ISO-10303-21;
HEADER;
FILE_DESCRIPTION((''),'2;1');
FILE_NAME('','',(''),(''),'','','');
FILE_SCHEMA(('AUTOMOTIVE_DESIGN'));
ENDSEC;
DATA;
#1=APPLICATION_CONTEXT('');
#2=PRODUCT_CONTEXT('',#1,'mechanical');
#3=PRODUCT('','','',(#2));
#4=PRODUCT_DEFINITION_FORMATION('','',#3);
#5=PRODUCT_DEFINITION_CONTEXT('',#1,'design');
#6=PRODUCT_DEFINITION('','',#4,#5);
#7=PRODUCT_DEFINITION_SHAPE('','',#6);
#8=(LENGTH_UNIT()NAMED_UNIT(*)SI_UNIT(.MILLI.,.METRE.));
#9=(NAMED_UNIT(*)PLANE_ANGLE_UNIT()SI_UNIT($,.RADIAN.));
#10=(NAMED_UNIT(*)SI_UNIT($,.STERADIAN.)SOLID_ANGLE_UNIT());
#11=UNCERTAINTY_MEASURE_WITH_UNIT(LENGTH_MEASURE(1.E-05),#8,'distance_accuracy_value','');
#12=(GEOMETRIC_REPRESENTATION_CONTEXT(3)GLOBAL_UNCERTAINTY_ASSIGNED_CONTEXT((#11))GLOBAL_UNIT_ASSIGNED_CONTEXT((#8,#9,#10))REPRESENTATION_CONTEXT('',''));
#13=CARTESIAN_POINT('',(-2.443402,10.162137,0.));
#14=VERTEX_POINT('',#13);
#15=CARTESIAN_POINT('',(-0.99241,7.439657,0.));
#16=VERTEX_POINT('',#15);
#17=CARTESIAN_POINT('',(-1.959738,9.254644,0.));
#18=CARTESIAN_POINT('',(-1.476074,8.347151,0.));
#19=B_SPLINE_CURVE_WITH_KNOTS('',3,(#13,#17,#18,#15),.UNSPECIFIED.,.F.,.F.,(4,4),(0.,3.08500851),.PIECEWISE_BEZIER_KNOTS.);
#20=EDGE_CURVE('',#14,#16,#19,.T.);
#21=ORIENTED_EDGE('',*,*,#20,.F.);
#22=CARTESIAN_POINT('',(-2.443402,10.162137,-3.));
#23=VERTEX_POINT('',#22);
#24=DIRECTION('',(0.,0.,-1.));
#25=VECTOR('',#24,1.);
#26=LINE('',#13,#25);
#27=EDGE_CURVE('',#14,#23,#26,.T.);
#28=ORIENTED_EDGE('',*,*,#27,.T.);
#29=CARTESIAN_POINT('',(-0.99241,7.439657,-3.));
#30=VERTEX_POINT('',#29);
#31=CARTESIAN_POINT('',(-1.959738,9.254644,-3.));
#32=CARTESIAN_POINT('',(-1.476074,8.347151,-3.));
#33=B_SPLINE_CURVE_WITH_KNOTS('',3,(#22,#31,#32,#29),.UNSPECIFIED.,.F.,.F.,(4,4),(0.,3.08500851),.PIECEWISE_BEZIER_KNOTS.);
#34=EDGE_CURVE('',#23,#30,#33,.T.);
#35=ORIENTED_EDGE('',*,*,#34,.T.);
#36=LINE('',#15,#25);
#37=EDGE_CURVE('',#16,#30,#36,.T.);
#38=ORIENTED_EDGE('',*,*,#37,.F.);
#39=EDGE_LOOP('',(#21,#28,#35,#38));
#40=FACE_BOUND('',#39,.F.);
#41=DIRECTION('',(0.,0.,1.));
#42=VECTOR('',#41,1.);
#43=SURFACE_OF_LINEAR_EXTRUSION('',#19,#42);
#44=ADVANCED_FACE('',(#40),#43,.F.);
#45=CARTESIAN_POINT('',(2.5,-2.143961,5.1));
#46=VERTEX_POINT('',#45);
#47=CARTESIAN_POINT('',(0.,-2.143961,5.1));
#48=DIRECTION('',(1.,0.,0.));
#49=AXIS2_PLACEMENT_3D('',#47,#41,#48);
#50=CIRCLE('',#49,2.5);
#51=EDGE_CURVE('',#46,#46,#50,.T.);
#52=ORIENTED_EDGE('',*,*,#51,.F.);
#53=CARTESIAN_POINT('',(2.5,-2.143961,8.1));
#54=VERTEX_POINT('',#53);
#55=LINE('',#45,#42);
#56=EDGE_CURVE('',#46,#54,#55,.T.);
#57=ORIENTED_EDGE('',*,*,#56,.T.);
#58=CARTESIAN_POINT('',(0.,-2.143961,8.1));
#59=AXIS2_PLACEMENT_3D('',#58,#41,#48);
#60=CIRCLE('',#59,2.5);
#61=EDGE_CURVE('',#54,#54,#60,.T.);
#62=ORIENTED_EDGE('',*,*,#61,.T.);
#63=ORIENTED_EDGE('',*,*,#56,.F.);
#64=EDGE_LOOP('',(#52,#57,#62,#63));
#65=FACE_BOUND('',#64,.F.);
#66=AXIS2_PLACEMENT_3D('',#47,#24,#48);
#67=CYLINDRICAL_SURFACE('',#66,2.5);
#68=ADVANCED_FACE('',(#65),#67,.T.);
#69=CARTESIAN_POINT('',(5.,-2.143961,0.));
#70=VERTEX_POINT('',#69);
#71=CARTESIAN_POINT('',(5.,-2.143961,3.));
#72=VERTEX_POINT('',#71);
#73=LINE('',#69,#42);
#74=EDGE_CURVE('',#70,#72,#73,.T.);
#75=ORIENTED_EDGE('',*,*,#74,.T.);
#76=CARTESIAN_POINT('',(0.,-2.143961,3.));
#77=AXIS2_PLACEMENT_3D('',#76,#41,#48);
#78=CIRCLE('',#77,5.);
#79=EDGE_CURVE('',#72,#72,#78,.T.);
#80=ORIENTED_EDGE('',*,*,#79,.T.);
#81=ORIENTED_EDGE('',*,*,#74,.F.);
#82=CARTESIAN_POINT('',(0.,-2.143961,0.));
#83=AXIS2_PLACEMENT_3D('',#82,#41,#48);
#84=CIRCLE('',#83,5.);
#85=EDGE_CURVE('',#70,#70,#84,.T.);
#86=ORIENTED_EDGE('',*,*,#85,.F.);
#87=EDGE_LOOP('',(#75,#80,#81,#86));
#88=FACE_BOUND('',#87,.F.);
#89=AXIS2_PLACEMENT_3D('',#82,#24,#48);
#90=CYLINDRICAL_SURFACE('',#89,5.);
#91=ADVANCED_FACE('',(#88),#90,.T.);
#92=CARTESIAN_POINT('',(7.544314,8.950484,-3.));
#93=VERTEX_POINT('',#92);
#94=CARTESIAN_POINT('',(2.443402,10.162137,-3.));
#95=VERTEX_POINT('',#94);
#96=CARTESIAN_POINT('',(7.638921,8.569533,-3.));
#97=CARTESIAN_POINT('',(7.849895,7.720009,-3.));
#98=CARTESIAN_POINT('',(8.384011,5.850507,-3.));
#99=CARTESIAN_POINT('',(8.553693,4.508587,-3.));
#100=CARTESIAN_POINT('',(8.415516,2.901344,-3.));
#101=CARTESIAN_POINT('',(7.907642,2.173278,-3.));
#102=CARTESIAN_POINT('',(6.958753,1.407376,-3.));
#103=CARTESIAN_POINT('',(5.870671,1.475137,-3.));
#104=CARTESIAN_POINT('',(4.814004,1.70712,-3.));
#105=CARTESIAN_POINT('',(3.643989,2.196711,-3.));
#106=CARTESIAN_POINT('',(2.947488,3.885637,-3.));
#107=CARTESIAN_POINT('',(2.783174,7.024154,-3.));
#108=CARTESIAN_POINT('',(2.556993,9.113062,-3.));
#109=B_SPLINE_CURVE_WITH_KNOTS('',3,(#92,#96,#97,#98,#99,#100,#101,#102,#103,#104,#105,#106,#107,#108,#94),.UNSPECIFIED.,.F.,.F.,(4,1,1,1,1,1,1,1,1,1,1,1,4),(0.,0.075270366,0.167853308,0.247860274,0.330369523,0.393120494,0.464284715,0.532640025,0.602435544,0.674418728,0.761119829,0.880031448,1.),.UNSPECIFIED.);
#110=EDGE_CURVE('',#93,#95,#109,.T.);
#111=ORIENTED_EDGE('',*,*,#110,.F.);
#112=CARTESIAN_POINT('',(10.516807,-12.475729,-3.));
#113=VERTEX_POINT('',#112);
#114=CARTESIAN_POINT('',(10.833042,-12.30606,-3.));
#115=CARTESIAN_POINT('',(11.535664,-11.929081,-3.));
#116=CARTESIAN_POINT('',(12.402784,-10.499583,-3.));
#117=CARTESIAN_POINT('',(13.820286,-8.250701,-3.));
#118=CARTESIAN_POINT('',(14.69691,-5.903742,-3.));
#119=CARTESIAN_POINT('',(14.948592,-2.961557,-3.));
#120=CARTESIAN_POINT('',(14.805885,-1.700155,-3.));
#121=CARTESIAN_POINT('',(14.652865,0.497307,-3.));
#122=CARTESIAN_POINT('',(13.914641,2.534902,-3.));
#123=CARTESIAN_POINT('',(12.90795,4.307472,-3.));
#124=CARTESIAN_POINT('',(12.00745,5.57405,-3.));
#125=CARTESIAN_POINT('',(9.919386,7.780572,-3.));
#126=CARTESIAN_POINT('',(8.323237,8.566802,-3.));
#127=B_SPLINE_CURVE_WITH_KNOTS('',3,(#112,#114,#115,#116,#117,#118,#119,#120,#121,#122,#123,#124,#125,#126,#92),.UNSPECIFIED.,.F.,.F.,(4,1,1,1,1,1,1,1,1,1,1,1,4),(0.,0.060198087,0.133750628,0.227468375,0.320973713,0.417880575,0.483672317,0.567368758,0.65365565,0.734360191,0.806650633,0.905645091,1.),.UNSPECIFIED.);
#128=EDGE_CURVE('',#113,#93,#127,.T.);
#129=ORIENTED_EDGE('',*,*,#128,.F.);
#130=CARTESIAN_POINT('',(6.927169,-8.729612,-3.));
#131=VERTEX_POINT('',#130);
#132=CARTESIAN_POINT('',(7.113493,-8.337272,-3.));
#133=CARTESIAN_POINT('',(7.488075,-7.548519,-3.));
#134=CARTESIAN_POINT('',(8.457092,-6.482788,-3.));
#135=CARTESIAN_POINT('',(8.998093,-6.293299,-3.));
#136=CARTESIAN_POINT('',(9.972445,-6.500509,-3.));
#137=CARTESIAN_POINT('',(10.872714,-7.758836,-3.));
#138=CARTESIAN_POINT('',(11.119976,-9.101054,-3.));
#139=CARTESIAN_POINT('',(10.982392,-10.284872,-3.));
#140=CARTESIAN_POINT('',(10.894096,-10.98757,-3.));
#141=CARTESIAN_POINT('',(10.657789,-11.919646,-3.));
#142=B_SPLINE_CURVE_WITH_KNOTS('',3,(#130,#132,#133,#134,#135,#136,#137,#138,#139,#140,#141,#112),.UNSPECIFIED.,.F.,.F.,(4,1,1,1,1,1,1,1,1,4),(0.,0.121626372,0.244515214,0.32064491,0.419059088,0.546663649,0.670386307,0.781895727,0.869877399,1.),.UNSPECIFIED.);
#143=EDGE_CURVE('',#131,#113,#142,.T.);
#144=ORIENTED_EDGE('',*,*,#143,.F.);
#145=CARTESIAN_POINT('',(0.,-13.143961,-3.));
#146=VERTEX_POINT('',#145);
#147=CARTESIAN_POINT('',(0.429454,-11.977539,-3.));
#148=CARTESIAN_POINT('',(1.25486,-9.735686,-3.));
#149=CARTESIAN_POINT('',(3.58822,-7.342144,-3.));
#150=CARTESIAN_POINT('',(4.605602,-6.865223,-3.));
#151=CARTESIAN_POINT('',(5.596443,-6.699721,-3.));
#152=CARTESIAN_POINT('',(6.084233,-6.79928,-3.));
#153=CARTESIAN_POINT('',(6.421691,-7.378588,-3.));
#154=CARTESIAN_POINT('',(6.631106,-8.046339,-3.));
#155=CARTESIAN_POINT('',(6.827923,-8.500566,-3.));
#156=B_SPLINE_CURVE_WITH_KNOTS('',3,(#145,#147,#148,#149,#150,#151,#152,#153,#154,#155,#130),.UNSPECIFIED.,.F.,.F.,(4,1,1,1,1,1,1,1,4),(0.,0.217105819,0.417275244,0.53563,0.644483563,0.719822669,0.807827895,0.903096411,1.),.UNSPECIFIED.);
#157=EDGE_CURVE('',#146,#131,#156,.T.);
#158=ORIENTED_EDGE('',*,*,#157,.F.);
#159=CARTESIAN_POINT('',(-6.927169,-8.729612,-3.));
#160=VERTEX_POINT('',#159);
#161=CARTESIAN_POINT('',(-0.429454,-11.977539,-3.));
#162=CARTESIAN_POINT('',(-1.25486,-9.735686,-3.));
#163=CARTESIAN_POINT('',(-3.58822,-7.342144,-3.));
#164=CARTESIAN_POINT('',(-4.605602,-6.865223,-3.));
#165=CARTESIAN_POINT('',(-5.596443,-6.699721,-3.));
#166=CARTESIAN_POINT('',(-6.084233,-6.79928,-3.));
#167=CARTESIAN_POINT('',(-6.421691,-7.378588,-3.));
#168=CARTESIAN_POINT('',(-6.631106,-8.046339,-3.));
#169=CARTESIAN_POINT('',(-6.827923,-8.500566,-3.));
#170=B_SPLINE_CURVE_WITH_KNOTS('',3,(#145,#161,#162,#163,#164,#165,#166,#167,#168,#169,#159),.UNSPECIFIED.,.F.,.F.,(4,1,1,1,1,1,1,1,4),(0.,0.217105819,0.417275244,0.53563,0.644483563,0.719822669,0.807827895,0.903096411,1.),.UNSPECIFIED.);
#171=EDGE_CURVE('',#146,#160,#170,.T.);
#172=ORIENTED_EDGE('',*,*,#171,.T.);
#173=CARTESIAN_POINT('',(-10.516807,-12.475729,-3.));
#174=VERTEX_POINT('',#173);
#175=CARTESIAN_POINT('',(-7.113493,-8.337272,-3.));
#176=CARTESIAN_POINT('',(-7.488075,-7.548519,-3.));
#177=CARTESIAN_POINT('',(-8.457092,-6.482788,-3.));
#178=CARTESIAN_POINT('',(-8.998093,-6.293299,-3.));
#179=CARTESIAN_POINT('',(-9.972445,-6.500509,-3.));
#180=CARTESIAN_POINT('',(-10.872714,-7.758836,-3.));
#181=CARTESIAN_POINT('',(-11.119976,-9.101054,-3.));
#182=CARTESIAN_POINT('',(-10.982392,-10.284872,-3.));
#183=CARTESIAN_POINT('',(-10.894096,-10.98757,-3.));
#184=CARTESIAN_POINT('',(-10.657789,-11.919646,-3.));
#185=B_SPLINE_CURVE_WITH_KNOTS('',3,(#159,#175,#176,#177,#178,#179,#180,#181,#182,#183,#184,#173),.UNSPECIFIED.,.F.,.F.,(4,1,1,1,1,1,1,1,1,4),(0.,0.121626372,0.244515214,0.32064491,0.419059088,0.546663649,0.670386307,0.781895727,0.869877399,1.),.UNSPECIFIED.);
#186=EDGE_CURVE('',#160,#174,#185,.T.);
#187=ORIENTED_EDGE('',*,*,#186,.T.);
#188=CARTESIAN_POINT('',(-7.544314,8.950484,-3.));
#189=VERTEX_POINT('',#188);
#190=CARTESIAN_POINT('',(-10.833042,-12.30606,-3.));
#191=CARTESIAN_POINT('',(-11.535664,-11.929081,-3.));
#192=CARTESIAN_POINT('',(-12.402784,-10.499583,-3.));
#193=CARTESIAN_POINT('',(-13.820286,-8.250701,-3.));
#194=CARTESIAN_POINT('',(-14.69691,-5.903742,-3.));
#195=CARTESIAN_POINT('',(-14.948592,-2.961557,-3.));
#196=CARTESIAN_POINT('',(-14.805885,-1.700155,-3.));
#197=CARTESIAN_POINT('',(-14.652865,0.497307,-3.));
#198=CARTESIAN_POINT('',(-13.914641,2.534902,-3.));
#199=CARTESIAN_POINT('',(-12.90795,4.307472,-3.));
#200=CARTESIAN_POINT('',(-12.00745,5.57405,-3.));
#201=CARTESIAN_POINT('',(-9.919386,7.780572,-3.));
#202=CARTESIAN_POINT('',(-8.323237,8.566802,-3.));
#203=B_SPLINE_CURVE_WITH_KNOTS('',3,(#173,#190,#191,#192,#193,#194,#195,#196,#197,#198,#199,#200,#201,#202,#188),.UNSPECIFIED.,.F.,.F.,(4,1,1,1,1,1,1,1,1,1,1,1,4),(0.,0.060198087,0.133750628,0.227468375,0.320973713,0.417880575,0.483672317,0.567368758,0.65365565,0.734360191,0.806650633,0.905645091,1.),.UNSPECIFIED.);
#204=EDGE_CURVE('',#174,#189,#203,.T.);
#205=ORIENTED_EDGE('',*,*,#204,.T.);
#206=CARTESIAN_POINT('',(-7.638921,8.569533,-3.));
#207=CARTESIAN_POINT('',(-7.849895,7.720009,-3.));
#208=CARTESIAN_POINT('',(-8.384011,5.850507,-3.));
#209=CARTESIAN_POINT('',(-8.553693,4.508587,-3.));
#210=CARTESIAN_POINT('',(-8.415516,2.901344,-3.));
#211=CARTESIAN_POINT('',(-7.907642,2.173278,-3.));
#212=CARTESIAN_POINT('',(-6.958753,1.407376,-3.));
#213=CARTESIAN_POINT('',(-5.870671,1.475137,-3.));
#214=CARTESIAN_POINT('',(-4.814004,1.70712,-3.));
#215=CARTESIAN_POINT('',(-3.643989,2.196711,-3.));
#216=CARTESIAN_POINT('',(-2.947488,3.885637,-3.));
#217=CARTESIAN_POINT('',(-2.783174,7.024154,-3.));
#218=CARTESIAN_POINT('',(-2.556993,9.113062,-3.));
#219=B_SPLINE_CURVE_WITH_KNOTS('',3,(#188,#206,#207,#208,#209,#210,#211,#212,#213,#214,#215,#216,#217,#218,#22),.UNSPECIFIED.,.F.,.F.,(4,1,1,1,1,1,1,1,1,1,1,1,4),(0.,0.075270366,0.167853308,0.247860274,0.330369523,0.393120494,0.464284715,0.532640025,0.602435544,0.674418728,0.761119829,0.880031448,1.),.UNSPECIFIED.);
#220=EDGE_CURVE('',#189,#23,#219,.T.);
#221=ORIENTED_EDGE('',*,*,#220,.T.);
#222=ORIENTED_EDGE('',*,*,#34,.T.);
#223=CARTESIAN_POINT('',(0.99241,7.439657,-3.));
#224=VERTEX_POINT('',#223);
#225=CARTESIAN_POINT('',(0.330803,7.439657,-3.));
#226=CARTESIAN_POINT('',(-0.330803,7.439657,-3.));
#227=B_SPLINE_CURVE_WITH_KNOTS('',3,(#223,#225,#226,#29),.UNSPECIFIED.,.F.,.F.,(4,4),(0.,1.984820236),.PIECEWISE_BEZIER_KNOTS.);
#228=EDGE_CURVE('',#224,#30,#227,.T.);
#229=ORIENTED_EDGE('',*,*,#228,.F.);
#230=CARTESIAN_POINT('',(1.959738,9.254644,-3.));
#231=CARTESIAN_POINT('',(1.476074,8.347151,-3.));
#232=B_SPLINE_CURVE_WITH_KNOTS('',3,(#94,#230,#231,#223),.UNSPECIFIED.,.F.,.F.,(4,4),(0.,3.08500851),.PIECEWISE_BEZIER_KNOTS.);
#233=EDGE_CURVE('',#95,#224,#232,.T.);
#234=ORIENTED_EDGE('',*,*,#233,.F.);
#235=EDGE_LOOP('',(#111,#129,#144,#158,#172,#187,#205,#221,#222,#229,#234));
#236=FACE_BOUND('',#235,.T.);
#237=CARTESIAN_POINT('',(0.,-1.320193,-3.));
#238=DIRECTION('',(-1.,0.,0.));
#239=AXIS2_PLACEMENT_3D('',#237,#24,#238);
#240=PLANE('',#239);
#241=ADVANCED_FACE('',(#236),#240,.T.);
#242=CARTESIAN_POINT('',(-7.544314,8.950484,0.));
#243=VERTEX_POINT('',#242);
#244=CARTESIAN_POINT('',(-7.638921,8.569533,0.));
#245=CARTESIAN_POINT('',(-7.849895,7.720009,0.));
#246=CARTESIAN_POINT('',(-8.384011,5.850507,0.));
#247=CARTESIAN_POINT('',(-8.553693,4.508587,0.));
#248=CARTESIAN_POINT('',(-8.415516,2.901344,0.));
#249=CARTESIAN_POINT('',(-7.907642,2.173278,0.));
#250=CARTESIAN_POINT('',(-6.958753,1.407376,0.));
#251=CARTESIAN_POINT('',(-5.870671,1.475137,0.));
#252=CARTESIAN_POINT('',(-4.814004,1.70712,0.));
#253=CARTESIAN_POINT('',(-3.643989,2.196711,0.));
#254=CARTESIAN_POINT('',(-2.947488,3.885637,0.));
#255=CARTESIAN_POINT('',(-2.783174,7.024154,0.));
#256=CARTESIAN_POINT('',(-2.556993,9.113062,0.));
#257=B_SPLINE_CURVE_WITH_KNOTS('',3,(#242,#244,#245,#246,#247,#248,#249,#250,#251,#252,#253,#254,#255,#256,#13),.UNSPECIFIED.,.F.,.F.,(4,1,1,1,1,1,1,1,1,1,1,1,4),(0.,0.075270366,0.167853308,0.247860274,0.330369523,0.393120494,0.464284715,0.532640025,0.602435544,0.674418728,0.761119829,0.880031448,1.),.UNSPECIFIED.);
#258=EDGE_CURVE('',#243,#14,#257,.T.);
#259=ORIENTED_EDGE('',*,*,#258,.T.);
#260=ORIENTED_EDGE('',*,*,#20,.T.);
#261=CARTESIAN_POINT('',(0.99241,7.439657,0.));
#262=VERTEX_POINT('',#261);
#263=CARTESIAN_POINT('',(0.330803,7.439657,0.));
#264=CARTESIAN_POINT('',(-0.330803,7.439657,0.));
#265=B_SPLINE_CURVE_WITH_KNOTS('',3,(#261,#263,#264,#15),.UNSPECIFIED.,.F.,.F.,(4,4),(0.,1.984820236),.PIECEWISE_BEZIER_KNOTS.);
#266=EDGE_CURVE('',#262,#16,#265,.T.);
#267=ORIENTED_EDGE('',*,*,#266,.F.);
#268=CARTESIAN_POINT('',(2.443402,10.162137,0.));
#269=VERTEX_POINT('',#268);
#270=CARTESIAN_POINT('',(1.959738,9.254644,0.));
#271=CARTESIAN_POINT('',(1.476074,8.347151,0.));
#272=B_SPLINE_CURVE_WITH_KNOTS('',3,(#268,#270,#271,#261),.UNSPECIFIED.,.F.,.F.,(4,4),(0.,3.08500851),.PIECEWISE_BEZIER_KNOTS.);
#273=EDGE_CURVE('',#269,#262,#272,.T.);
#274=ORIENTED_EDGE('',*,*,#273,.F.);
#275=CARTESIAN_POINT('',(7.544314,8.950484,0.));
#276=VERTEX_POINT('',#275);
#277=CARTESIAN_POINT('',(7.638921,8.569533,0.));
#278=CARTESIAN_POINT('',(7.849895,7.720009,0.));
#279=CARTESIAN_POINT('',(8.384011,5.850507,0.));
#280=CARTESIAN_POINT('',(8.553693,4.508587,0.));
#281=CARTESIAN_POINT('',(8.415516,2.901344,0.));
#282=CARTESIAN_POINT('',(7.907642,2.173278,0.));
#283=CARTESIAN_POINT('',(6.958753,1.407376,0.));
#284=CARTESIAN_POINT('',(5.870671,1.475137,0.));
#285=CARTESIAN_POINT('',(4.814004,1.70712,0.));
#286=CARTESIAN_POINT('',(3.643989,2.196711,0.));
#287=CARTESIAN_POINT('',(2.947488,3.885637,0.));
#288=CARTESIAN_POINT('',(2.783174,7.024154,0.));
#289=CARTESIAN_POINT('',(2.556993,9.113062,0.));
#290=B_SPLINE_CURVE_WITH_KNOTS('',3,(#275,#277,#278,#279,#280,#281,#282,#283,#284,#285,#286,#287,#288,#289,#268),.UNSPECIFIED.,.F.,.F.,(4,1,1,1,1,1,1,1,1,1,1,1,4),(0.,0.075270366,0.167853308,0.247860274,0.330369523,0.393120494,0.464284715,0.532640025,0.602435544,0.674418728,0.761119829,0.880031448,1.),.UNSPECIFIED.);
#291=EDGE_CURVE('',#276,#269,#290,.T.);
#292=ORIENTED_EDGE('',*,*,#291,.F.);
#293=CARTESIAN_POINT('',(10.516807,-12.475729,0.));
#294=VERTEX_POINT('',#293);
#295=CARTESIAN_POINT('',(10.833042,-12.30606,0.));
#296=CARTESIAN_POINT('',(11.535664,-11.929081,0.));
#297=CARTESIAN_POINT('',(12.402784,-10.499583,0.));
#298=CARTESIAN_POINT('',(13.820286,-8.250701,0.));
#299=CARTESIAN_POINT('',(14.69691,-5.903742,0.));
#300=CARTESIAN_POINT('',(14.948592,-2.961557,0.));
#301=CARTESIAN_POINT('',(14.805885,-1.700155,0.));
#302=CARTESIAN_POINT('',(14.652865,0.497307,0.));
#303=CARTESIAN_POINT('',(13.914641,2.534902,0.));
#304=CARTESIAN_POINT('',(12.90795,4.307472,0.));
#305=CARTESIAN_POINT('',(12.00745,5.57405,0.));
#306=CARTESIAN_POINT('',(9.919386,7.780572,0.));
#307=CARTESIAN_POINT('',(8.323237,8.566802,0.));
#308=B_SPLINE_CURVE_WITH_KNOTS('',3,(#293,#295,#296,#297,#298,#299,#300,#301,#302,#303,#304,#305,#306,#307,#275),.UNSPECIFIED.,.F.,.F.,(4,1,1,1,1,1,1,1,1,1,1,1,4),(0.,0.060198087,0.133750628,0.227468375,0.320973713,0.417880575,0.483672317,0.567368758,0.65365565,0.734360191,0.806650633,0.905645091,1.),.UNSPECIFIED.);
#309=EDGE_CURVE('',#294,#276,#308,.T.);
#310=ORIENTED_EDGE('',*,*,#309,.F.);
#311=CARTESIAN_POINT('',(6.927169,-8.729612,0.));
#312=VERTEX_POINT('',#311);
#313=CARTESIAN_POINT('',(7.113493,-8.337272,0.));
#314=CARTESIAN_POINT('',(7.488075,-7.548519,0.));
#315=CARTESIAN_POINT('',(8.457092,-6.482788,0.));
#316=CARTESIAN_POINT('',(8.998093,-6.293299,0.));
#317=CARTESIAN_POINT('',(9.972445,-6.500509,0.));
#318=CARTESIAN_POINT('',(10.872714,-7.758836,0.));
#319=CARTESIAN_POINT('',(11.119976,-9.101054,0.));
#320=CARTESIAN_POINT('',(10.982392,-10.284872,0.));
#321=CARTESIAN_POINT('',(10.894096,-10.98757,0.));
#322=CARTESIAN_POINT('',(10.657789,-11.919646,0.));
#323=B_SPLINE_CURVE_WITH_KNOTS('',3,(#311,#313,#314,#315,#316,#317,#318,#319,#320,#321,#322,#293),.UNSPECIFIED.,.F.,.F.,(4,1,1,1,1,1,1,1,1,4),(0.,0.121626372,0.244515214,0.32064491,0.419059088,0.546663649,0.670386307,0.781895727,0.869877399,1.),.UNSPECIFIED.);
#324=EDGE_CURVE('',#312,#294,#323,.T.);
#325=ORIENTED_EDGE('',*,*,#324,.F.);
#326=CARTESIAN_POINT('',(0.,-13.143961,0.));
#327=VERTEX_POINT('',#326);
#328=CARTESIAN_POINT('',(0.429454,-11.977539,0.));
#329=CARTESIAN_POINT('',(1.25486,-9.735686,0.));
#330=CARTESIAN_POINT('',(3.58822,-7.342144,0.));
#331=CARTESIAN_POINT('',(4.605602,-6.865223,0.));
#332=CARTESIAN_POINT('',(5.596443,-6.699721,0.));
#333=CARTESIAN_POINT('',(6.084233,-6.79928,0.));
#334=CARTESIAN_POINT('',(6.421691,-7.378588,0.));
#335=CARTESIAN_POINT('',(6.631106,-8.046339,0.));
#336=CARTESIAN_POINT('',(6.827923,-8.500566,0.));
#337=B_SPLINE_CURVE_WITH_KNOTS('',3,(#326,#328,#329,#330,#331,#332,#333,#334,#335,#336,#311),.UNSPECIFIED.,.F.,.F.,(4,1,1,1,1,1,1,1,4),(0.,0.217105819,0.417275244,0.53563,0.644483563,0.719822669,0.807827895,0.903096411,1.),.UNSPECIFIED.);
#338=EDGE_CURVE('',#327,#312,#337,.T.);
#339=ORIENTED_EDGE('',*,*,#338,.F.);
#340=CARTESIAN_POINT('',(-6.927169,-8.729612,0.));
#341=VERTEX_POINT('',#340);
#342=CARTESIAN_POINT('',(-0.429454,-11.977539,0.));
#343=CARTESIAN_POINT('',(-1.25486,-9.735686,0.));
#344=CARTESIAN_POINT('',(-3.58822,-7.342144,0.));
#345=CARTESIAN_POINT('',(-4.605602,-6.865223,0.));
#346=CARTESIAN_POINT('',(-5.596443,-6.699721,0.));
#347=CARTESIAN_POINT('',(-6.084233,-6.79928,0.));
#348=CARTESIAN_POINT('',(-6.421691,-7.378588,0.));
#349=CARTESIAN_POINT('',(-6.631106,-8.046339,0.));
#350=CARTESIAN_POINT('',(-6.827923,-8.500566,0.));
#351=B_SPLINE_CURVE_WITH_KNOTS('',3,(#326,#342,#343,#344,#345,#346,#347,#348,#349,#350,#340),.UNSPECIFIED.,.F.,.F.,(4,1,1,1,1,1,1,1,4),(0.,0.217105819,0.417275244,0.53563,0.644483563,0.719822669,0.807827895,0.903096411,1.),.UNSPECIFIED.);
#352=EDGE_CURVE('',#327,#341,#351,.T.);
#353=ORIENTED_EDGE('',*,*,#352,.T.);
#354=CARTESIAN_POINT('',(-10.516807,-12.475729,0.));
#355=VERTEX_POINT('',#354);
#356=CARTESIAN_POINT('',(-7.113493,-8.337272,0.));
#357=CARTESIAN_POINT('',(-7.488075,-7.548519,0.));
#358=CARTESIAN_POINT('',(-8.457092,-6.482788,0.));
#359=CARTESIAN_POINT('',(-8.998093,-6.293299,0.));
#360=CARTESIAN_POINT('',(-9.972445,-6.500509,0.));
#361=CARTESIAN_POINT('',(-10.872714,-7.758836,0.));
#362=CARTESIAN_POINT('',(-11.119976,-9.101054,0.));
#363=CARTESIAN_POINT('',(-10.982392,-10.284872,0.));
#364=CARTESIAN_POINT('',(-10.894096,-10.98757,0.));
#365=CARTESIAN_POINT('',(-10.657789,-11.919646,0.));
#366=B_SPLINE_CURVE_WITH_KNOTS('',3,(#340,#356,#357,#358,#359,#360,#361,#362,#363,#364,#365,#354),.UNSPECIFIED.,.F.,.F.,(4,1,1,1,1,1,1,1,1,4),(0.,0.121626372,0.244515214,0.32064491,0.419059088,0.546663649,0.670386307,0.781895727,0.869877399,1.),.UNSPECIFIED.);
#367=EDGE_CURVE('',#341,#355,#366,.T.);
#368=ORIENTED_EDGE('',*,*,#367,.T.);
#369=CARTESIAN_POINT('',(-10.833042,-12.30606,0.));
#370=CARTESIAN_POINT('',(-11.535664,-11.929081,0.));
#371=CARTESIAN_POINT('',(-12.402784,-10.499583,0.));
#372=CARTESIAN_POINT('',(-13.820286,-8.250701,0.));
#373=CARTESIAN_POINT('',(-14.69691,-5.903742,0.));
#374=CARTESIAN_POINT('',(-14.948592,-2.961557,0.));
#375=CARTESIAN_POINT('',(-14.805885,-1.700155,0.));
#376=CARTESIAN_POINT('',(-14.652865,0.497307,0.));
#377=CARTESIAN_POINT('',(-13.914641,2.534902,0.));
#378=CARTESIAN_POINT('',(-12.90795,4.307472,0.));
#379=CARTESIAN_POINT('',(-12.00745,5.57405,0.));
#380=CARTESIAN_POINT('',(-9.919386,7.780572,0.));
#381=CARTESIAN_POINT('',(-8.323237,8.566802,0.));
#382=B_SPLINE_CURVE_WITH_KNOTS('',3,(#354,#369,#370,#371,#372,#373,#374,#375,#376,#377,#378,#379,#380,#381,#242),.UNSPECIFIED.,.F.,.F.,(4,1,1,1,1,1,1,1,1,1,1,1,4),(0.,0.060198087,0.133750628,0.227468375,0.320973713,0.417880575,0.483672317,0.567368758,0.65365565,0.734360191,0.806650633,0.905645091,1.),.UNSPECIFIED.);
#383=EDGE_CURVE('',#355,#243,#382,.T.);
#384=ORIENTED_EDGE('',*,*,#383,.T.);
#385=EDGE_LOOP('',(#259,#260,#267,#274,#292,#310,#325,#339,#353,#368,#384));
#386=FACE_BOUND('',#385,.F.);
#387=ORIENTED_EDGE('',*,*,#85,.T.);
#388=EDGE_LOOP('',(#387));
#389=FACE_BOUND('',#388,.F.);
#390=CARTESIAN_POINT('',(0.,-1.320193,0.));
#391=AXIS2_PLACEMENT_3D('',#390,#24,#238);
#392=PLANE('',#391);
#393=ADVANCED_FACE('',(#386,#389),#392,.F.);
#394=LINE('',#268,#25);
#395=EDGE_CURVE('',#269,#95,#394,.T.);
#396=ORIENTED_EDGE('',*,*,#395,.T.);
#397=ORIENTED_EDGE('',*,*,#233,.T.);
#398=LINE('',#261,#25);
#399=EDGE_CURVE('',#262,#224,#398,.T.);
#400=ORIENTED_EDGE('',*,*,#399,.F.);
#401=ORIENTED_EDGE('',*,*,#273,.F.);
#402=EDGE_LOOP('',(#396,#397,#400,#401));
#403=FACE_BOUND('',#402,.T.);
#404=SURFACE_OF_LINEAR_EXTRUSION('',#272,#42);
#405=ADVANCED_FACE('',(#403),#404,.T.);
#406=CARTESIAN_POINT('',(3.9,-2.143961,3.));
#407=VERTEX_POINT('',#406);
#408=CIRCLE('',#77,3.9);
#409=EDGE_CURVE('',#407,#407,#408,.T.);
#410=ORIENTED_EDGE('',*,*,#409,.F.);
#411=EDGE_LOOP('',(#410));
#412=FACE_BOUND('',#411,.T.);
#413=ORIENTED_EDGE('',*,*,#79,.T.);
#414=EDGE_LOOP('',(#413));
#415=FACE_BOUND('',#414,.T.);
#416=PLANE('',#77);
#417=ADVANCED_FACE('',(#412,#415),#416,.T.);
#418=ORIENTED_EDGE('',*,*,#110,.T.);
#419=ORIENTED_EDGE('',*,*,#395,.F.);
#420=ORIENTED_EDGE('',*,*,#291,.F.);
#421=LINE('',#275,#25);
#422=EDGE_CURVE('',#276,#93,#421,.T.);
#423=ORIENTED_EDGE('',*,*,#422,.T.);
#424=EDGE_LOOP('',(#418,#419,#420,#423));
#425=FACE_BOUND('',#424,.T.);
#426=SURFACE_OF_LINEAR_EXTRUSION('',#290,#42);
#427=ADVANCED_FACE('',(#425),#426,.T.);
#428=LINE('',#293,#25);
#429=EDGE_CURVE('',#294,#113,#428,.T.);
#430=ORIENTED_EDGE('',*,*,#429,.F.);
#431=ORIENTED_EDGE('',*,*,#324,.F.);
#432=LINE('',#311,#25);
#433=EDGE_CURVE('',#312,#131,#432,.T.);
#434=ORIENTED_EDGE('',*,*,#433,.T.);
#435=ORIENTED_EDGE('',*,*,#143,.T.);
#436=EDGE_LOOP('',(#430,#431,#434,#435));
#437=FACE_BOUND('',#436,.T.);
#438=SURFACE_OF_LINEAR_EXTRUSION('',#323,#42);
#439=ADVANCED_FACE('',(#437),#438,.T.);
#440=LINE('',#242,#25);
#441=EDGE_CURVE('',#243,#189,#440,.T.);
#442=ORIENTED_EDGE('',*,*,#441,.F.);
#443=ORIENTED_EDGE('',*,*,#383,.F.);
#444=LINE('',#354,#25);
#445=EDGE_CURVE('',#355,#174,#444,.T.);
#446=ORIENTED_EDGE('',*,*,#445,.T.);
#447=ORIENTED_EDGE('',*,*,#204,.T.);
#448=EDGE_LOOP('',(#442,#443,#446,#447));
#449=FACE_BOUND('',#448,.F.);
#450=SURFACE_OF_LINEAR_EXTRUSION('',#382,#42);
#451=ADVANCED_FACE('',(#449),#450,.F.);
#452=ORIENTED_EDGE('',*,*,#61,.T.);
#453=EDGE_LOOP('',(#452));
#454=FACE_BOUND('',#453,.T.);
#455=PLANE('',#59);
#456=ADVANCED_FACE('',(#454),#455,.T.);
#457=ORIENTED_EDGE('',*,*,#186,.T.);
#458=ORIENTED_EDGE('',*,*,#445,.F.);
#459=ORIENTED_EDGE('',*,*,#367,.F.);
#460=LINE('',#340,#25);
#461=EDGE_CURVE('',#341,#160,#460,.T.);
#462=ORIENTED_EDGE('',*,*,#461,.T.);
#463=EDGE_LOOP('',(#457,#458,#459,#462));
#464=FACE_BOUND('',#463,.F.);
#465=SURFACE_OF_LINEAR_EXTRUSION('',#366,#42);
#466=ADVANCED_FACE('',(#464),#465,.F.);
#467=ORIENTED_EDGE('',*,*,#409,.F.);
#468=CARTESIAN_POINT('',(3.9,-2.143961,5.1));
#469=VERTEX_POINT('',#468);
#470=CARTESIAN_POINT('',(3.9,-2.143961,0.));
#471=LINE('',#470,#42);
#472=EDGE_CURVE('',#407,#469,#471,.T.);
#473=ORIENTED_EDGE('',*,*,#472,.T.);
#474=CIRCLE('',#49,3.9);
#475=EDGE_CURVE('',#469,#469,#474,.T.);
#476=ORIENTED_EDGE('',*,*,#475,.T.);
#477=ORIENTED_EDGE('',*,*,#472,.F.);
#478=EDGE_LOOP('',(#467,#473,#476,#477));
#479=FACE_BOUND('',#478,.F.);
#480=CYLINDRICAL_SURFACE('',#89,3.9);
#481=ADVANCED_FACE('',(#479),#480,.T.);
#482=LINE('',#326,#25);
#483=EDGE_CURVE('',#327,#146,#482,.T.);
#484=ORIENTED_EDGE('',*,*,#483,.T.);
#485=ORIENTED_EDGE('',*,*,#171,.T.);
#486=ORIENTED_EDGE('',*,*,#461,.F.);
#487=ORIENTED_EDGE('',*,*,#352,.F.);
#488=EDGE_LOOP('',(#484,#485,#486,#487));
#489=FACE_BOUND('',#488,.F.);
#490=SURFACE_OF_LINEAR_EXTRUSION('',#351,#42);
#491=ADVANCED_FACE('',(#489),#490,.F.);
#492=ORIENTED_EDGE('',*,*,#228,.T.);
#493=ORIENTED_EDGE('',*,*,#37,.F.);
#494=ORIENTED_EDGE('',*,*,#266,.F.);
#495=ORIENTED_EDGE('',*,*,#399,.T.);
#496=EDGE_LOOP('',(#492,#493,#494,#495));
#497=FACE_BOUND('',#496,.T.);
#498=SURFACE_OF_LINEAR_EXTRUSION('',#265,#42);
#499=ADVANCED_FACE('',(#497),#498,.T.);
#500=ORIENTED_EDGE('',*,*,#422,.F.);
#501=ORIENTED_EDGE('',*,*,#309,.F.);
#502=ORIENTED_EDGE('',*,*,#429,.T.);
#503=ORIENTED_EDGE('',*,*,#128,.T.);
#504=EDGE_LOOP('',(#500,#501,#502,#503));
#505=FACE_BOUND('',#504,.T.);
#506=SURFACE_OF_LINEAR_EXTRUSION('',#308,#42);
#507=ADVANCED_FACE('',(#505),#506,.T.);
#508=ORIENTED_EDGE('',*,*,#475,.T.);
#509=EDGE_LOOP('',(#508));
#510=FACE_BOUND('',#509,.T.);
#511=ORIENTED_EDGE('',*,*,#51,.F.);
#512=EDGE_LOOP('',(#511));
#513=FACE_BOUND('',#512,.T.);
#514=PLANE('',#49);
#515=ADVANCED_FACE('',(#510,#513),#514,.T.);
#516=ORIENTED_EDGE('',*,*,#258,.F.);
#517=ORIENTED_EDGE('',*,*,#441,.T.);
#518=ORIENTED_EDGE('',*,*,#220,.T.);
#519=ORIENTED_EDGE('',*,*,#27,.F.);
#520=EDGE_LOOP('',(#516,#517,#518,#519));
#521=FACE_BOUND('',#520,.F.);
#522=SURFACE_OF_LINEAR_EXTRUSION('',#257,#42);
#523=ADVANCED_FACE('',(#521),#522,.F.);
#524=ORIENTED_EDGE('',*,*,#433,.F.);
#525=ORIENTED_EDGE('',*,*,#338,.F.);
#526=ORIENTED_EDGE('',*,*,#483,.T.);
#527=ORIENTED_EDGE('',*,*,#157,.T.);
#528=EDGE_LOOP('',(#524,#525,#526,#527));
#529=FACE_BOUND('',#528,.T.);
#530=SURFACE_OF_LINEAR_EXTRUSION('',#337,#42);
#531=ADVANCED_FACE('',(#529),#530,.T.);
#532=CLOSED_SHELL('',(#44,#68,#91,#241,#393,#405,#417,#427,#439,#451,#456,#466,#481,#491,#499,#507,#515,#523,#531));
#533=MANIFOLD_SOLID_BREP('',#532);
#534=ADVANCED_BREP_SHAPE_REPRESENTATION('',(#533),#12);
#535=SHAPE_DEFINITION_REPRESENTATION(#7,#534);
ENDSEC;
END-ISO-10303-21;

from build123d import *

# Parameters (mm, degrees)
F0_R     = 5
F0_R_2   = 3.9
F1_DEPTH = 3
F2_DEPTH = 5.1
F3_DEPTH = 3
F4_R     = 2.5
F5_DEPTH = 3


with BuildPart() as f1:
    # F0 (on Top) → F1 (new body)
    with BuildSketch(Plane.XY):
        with Locations((0, -2.1439613178)):
            Circle(F0_R)
        with Locations((0, -2.1439613178)):
            Circle(F0_R_2, mode=Mode.SUBTRACT)
    extrude(amount=F1_DEPTH)

    # F0 (on Top) → F2 (join)
    with BuildSketch(Plane.XY):
        with Locations((0, -2.1439613178)):
            Circle(F0_R_2)
    extrude(amount=F2_DEPTH)

    # F0 (on Top) → F3 (join)
    with BuildSketch(Plane.XY):
        with BuildLine():
            add(Edge.make_bspline(
                [(0, -13.1439613178), (-0.4294539751, -11.9775387571), (-1.2548602794, -9.7356860997), (-3.5882204359, -7.3421443207), (-4.6056022039, -6.8652228997), (-5.59644324, -6.6997209592), (-6.0842325755, -6.7992801193), (-6.421690631, -7.3785882809), (-6.6311064449, -8.0463387493), (-6.8279232365, -8.5005663065), (-6.9271689281, -8.7296124548)],
                knots=[0, 0, 0, 0, 0.2171058195, 0.4172752437, 0.53563, 0.6444835629, 0.719822669, 0.8078278946, 0.9030964109, 1, 1, 1, 1], degree=3))
            add(Edge.make_bspline(
                [(0, -13.1439613178), (0.4294539751, -11.9775387571), (1.2548602794, -9.7356860997), (3.5882204359, -7.3421443207), (4.6056022039, -6.8652228997), (5.59644324, -6.6997209592), (6.0842325755, -6.7992801193), (6.421690631, -7.3785882809), (6.6311064449, -8.0463387493), (6.8279232365, -8.5005663065), (6.9271689281, -8.7296124548)],
                knots=[0, 0, 0, 0, 0.2171058195, 0.4172752437, 0.53563, 0.6444835629, 0.719822669, 0.8078278946, 0.9030964109, 1, 1, 1, 1], degree=3))
            add(Edge.make_bspline(
                [(6.9271689281, -8.7296124548), (7.1134929089, -8.3372721452), (7.488074895, -7.5485190726), (8.4570919572, -6.4827882523), (8.9980930935, -6.2932991044), (9.9724452781, -6.500508657), (10.8727144612, -7.758835945), (11.1199759549, -9.1010536806), (10.9823923974, -10.2848723846), (10.8940956062, -10.9875703061), (10.6577894277, -11.9196458914), (10.5168074369, -12.4757289886)],
                knots=[0, 0, 0, 0, 0.1216263724, 0.2445152145, 0.3206449098, 0.4190590878, 0.5466636489, 0.6703863075, 0.7818957274, 0.8698773991, 1, 1, 1, 1], degree=3))
            add(Edge.make_bspline(
                [(10.5168074369, -12.4757289886), (10.8330415271, -12.3060597242), (11.5356636572, -11.9290814551), (12.4027841021, -10.4995830509), (13.8202863847, -8.2507010885), (14.6969099323, -5.9037420567), (14.9485923671, -2.9615572621), (14.8058853863, -1.7001553968), (14.6528648582, 0.4973066476), (13.9146408287, 2.5349021338), (12.9079496989, 4.3074721389), (12.007450278, 5.5740503409), (9.9193860193, 7.7805719205), (8.3232374896, 8.5668020048), (7.5443135574, 8.9504839852)],
                knots=[0, 0, 0, 0, 0.0601980873, 0.1337506285, 0.227468375, 0.3209737133, 0.4178805746, 0.483672317, 0.5673687583, 0.6536556499, 0.7343601906, 0.8066506333, 0.9056450912, 1, 1, 1, 1], degree=3))
            add(Edge.make_bspline(
                [(7.5443135574, 8.9504839852), (7.6389206925, 8.5695326115), (7.8498950971, 7.7200090611), (8.3840108509, 5.8505067231), (8.553692706, 4.5085870534), (8.4155164417, 2.9013441134), (7.9076420532, 2.173278469), (6.9587534427, 1.4073756699), (5.870671358, 1.4751366742), (4.8140044742, 1.7071195914), (3.6439890322, 2.1967111639), (2.9474881014, 3.8856367555), (2.7831740694, 7.0241541467), (2.5569931426, 9.1130622026), (2.4434023071, 10.1621374488)],
                knots=[0, 0, 0, 0, 0.0752703658, 0.1678533083, 0.247860274, 0.3303695231, 0.3931204941, 0.4642847146, 0.532640025, 0.6024355443, 0.6744187279, 0.7611198291, 0.8800314483, 1, 1, 1, 1], degree=3))
            add(Edge.make_bspline(
                [(2.4434023071, 10.1621374488), (1.959738244, 9.254644004), (1.4760741809, 8.3471505592), (0.9924101178, 7.4396571144)],
                knots=[0, 0, 0, 0, 3.0850085096, 3.0850085096, 3.0850085096, 3.0850085096], degree=3))
            add(Edge.make_bspline(
                [(0.9924101178, 7.4396571144), (0.6616067452, 7.4396571144), (0.3308033726, 7.4396571144), (0, 7.4396571144)],
                knots=[0, 0, 0, 0, 0.9924101178, 0.9924101178, 0.9924101178, 0.9924101178], degree=3))
            add(Edge.make_bspline(
                [(-0.9924101178, 7.4396571144), (-0.6616067452, 7.4396571144), (-0.3308033726, 7.4396571144), (0, 7.4396571144)],
                knots=[0, 0, 0, 0, 0.9924101178, 0.9924101178, 0.9924101178, 0.9924101178], degree=3))
            add(Edge.make_bspline(
                [(-2.4434023071, 10.1621374488), (-1.959738244, 9.254644004), (-1.4760741809, 8.3471505592), (-0.9924101178, 7.4396571144)],
                knots=[0, 0, 0, 0, 3.0850085096, 3.0850085096, 3.0850085096, 3.0850085096], degree=3))
            add(Edge.make_bspline(
                [(-7.5443135574, 8.9504839852), (-7.6389206925, 8.5695326115), (-7.8498950971, 7.7200090611), (-8.3840108509, 5.8505067231), (-8.553692706, 4.5085870534), (-8.4155164417, 2.9013441134), (-7.9076420532, 2.173278469), (-6.9587534427, 1.4073756699), (-5.870671358, 1.4751366742), (-4.8140044742, 1.7071195914), (-3.6439890322, 2.1967111639), (-2.9474881014, 3.8856367555), (-2.7831740694, 7.0241541467), (-2.5569931426, 9.1130622026), (-2.4434023071, 10.1621374488)],
                knots=[0, 0, 0, 0, 0.0752703658, 0.1678533083, 0.247860274, 0.3303695231, 0.3931204941, 0.4642847146, 0.532640025, 0.6024355443, 0.6744187279, 0.7611198291, 0.8800314483, 1, 1, 1, 1], degree=3))
            add(Edge.make_bspline(
                [(-10.5168074369, -12.4757289886), (-10.8330415271, -12.3060597242), (-11.5356636572, -11.9290814551), (-12.4027841021, -10.4995830509), (-13.8202863847, -8.2507010885), (-14.6969099323, -5.9037420567), (-14.9485923671, -2.9615572621), (-14.8058853863, -1.7001553968), (-14.6528648582, 0.4973066476), (-13.9146408287, 2.5349021338), (-12.9079496989, 4.3074721389), (-12.007450278, 5.5740503409), (-9.9193860193, 7.7805719205), (-8.3232374896, 8.5668020048), (-7.5443135574, 8.9504839852)],
                knots=[0, 0, 0, 0, 0.0601980873, 0.1337506285, 0.227468375, 0.3209737133, 0.4178805746, 0.483672317, 0.5673687583, 0.6536556499, 0.7343601906, 0.8066506333, 0.9056450912, 1, 1, 1, 1], degree=3))
            add(Edge.make_bspline(
                [(-6.9271689281, -8.7296124548), (-7.1134929089, -8.3372721452), (-7.488074895, -7.5485190726), (-8.4570919572, -6.4827882523), (-8.9980930935, -6.2932991044), (-9.9724452781, -6.500508657), (-10.8727144612, -7.758835945), (-11.1199759549, -9.1010536806), (-10.9823923974, -10.2848723846), (-10.8940956062, -10.9875703061), (-10.6577894277, -11.9196458914), (-10.5168074369, -12.4757289886)],
                knots=[0, 0, 0, 0, 0.1216263724, 0.2445152145, 0.3206449098, 0.4190590878, 0.5466636489, 0.6703863075, 0.7818957274, 0.8698773991, 1, 1, 1, 1], degree=3))
        make_face()
        with Locations((0, -2.1439613178)):
            Circle(F0_R, mode=Mode.SUBTRACT)
        with Locations((0, -2.1439613178)):
            Circle(F0_R)
        with Locations((0, -2.1439613178)):
            Circle(F0_R_2, mode=Mode.SUBTRACT)
        with Locations((0, -2.1439613178)):
            Circle(F0_R_2)
    extrude(amount=-F3_DEPTH)

    # F4 (on face) → F5 (join)
    with BuildSketch(Plane.XY.offset(5.1)):
        with Locations((0, -2.1439613178)):
            Circle(F4_R)
    extrude(amount=F5_DEPTH)


solid = f1.part
